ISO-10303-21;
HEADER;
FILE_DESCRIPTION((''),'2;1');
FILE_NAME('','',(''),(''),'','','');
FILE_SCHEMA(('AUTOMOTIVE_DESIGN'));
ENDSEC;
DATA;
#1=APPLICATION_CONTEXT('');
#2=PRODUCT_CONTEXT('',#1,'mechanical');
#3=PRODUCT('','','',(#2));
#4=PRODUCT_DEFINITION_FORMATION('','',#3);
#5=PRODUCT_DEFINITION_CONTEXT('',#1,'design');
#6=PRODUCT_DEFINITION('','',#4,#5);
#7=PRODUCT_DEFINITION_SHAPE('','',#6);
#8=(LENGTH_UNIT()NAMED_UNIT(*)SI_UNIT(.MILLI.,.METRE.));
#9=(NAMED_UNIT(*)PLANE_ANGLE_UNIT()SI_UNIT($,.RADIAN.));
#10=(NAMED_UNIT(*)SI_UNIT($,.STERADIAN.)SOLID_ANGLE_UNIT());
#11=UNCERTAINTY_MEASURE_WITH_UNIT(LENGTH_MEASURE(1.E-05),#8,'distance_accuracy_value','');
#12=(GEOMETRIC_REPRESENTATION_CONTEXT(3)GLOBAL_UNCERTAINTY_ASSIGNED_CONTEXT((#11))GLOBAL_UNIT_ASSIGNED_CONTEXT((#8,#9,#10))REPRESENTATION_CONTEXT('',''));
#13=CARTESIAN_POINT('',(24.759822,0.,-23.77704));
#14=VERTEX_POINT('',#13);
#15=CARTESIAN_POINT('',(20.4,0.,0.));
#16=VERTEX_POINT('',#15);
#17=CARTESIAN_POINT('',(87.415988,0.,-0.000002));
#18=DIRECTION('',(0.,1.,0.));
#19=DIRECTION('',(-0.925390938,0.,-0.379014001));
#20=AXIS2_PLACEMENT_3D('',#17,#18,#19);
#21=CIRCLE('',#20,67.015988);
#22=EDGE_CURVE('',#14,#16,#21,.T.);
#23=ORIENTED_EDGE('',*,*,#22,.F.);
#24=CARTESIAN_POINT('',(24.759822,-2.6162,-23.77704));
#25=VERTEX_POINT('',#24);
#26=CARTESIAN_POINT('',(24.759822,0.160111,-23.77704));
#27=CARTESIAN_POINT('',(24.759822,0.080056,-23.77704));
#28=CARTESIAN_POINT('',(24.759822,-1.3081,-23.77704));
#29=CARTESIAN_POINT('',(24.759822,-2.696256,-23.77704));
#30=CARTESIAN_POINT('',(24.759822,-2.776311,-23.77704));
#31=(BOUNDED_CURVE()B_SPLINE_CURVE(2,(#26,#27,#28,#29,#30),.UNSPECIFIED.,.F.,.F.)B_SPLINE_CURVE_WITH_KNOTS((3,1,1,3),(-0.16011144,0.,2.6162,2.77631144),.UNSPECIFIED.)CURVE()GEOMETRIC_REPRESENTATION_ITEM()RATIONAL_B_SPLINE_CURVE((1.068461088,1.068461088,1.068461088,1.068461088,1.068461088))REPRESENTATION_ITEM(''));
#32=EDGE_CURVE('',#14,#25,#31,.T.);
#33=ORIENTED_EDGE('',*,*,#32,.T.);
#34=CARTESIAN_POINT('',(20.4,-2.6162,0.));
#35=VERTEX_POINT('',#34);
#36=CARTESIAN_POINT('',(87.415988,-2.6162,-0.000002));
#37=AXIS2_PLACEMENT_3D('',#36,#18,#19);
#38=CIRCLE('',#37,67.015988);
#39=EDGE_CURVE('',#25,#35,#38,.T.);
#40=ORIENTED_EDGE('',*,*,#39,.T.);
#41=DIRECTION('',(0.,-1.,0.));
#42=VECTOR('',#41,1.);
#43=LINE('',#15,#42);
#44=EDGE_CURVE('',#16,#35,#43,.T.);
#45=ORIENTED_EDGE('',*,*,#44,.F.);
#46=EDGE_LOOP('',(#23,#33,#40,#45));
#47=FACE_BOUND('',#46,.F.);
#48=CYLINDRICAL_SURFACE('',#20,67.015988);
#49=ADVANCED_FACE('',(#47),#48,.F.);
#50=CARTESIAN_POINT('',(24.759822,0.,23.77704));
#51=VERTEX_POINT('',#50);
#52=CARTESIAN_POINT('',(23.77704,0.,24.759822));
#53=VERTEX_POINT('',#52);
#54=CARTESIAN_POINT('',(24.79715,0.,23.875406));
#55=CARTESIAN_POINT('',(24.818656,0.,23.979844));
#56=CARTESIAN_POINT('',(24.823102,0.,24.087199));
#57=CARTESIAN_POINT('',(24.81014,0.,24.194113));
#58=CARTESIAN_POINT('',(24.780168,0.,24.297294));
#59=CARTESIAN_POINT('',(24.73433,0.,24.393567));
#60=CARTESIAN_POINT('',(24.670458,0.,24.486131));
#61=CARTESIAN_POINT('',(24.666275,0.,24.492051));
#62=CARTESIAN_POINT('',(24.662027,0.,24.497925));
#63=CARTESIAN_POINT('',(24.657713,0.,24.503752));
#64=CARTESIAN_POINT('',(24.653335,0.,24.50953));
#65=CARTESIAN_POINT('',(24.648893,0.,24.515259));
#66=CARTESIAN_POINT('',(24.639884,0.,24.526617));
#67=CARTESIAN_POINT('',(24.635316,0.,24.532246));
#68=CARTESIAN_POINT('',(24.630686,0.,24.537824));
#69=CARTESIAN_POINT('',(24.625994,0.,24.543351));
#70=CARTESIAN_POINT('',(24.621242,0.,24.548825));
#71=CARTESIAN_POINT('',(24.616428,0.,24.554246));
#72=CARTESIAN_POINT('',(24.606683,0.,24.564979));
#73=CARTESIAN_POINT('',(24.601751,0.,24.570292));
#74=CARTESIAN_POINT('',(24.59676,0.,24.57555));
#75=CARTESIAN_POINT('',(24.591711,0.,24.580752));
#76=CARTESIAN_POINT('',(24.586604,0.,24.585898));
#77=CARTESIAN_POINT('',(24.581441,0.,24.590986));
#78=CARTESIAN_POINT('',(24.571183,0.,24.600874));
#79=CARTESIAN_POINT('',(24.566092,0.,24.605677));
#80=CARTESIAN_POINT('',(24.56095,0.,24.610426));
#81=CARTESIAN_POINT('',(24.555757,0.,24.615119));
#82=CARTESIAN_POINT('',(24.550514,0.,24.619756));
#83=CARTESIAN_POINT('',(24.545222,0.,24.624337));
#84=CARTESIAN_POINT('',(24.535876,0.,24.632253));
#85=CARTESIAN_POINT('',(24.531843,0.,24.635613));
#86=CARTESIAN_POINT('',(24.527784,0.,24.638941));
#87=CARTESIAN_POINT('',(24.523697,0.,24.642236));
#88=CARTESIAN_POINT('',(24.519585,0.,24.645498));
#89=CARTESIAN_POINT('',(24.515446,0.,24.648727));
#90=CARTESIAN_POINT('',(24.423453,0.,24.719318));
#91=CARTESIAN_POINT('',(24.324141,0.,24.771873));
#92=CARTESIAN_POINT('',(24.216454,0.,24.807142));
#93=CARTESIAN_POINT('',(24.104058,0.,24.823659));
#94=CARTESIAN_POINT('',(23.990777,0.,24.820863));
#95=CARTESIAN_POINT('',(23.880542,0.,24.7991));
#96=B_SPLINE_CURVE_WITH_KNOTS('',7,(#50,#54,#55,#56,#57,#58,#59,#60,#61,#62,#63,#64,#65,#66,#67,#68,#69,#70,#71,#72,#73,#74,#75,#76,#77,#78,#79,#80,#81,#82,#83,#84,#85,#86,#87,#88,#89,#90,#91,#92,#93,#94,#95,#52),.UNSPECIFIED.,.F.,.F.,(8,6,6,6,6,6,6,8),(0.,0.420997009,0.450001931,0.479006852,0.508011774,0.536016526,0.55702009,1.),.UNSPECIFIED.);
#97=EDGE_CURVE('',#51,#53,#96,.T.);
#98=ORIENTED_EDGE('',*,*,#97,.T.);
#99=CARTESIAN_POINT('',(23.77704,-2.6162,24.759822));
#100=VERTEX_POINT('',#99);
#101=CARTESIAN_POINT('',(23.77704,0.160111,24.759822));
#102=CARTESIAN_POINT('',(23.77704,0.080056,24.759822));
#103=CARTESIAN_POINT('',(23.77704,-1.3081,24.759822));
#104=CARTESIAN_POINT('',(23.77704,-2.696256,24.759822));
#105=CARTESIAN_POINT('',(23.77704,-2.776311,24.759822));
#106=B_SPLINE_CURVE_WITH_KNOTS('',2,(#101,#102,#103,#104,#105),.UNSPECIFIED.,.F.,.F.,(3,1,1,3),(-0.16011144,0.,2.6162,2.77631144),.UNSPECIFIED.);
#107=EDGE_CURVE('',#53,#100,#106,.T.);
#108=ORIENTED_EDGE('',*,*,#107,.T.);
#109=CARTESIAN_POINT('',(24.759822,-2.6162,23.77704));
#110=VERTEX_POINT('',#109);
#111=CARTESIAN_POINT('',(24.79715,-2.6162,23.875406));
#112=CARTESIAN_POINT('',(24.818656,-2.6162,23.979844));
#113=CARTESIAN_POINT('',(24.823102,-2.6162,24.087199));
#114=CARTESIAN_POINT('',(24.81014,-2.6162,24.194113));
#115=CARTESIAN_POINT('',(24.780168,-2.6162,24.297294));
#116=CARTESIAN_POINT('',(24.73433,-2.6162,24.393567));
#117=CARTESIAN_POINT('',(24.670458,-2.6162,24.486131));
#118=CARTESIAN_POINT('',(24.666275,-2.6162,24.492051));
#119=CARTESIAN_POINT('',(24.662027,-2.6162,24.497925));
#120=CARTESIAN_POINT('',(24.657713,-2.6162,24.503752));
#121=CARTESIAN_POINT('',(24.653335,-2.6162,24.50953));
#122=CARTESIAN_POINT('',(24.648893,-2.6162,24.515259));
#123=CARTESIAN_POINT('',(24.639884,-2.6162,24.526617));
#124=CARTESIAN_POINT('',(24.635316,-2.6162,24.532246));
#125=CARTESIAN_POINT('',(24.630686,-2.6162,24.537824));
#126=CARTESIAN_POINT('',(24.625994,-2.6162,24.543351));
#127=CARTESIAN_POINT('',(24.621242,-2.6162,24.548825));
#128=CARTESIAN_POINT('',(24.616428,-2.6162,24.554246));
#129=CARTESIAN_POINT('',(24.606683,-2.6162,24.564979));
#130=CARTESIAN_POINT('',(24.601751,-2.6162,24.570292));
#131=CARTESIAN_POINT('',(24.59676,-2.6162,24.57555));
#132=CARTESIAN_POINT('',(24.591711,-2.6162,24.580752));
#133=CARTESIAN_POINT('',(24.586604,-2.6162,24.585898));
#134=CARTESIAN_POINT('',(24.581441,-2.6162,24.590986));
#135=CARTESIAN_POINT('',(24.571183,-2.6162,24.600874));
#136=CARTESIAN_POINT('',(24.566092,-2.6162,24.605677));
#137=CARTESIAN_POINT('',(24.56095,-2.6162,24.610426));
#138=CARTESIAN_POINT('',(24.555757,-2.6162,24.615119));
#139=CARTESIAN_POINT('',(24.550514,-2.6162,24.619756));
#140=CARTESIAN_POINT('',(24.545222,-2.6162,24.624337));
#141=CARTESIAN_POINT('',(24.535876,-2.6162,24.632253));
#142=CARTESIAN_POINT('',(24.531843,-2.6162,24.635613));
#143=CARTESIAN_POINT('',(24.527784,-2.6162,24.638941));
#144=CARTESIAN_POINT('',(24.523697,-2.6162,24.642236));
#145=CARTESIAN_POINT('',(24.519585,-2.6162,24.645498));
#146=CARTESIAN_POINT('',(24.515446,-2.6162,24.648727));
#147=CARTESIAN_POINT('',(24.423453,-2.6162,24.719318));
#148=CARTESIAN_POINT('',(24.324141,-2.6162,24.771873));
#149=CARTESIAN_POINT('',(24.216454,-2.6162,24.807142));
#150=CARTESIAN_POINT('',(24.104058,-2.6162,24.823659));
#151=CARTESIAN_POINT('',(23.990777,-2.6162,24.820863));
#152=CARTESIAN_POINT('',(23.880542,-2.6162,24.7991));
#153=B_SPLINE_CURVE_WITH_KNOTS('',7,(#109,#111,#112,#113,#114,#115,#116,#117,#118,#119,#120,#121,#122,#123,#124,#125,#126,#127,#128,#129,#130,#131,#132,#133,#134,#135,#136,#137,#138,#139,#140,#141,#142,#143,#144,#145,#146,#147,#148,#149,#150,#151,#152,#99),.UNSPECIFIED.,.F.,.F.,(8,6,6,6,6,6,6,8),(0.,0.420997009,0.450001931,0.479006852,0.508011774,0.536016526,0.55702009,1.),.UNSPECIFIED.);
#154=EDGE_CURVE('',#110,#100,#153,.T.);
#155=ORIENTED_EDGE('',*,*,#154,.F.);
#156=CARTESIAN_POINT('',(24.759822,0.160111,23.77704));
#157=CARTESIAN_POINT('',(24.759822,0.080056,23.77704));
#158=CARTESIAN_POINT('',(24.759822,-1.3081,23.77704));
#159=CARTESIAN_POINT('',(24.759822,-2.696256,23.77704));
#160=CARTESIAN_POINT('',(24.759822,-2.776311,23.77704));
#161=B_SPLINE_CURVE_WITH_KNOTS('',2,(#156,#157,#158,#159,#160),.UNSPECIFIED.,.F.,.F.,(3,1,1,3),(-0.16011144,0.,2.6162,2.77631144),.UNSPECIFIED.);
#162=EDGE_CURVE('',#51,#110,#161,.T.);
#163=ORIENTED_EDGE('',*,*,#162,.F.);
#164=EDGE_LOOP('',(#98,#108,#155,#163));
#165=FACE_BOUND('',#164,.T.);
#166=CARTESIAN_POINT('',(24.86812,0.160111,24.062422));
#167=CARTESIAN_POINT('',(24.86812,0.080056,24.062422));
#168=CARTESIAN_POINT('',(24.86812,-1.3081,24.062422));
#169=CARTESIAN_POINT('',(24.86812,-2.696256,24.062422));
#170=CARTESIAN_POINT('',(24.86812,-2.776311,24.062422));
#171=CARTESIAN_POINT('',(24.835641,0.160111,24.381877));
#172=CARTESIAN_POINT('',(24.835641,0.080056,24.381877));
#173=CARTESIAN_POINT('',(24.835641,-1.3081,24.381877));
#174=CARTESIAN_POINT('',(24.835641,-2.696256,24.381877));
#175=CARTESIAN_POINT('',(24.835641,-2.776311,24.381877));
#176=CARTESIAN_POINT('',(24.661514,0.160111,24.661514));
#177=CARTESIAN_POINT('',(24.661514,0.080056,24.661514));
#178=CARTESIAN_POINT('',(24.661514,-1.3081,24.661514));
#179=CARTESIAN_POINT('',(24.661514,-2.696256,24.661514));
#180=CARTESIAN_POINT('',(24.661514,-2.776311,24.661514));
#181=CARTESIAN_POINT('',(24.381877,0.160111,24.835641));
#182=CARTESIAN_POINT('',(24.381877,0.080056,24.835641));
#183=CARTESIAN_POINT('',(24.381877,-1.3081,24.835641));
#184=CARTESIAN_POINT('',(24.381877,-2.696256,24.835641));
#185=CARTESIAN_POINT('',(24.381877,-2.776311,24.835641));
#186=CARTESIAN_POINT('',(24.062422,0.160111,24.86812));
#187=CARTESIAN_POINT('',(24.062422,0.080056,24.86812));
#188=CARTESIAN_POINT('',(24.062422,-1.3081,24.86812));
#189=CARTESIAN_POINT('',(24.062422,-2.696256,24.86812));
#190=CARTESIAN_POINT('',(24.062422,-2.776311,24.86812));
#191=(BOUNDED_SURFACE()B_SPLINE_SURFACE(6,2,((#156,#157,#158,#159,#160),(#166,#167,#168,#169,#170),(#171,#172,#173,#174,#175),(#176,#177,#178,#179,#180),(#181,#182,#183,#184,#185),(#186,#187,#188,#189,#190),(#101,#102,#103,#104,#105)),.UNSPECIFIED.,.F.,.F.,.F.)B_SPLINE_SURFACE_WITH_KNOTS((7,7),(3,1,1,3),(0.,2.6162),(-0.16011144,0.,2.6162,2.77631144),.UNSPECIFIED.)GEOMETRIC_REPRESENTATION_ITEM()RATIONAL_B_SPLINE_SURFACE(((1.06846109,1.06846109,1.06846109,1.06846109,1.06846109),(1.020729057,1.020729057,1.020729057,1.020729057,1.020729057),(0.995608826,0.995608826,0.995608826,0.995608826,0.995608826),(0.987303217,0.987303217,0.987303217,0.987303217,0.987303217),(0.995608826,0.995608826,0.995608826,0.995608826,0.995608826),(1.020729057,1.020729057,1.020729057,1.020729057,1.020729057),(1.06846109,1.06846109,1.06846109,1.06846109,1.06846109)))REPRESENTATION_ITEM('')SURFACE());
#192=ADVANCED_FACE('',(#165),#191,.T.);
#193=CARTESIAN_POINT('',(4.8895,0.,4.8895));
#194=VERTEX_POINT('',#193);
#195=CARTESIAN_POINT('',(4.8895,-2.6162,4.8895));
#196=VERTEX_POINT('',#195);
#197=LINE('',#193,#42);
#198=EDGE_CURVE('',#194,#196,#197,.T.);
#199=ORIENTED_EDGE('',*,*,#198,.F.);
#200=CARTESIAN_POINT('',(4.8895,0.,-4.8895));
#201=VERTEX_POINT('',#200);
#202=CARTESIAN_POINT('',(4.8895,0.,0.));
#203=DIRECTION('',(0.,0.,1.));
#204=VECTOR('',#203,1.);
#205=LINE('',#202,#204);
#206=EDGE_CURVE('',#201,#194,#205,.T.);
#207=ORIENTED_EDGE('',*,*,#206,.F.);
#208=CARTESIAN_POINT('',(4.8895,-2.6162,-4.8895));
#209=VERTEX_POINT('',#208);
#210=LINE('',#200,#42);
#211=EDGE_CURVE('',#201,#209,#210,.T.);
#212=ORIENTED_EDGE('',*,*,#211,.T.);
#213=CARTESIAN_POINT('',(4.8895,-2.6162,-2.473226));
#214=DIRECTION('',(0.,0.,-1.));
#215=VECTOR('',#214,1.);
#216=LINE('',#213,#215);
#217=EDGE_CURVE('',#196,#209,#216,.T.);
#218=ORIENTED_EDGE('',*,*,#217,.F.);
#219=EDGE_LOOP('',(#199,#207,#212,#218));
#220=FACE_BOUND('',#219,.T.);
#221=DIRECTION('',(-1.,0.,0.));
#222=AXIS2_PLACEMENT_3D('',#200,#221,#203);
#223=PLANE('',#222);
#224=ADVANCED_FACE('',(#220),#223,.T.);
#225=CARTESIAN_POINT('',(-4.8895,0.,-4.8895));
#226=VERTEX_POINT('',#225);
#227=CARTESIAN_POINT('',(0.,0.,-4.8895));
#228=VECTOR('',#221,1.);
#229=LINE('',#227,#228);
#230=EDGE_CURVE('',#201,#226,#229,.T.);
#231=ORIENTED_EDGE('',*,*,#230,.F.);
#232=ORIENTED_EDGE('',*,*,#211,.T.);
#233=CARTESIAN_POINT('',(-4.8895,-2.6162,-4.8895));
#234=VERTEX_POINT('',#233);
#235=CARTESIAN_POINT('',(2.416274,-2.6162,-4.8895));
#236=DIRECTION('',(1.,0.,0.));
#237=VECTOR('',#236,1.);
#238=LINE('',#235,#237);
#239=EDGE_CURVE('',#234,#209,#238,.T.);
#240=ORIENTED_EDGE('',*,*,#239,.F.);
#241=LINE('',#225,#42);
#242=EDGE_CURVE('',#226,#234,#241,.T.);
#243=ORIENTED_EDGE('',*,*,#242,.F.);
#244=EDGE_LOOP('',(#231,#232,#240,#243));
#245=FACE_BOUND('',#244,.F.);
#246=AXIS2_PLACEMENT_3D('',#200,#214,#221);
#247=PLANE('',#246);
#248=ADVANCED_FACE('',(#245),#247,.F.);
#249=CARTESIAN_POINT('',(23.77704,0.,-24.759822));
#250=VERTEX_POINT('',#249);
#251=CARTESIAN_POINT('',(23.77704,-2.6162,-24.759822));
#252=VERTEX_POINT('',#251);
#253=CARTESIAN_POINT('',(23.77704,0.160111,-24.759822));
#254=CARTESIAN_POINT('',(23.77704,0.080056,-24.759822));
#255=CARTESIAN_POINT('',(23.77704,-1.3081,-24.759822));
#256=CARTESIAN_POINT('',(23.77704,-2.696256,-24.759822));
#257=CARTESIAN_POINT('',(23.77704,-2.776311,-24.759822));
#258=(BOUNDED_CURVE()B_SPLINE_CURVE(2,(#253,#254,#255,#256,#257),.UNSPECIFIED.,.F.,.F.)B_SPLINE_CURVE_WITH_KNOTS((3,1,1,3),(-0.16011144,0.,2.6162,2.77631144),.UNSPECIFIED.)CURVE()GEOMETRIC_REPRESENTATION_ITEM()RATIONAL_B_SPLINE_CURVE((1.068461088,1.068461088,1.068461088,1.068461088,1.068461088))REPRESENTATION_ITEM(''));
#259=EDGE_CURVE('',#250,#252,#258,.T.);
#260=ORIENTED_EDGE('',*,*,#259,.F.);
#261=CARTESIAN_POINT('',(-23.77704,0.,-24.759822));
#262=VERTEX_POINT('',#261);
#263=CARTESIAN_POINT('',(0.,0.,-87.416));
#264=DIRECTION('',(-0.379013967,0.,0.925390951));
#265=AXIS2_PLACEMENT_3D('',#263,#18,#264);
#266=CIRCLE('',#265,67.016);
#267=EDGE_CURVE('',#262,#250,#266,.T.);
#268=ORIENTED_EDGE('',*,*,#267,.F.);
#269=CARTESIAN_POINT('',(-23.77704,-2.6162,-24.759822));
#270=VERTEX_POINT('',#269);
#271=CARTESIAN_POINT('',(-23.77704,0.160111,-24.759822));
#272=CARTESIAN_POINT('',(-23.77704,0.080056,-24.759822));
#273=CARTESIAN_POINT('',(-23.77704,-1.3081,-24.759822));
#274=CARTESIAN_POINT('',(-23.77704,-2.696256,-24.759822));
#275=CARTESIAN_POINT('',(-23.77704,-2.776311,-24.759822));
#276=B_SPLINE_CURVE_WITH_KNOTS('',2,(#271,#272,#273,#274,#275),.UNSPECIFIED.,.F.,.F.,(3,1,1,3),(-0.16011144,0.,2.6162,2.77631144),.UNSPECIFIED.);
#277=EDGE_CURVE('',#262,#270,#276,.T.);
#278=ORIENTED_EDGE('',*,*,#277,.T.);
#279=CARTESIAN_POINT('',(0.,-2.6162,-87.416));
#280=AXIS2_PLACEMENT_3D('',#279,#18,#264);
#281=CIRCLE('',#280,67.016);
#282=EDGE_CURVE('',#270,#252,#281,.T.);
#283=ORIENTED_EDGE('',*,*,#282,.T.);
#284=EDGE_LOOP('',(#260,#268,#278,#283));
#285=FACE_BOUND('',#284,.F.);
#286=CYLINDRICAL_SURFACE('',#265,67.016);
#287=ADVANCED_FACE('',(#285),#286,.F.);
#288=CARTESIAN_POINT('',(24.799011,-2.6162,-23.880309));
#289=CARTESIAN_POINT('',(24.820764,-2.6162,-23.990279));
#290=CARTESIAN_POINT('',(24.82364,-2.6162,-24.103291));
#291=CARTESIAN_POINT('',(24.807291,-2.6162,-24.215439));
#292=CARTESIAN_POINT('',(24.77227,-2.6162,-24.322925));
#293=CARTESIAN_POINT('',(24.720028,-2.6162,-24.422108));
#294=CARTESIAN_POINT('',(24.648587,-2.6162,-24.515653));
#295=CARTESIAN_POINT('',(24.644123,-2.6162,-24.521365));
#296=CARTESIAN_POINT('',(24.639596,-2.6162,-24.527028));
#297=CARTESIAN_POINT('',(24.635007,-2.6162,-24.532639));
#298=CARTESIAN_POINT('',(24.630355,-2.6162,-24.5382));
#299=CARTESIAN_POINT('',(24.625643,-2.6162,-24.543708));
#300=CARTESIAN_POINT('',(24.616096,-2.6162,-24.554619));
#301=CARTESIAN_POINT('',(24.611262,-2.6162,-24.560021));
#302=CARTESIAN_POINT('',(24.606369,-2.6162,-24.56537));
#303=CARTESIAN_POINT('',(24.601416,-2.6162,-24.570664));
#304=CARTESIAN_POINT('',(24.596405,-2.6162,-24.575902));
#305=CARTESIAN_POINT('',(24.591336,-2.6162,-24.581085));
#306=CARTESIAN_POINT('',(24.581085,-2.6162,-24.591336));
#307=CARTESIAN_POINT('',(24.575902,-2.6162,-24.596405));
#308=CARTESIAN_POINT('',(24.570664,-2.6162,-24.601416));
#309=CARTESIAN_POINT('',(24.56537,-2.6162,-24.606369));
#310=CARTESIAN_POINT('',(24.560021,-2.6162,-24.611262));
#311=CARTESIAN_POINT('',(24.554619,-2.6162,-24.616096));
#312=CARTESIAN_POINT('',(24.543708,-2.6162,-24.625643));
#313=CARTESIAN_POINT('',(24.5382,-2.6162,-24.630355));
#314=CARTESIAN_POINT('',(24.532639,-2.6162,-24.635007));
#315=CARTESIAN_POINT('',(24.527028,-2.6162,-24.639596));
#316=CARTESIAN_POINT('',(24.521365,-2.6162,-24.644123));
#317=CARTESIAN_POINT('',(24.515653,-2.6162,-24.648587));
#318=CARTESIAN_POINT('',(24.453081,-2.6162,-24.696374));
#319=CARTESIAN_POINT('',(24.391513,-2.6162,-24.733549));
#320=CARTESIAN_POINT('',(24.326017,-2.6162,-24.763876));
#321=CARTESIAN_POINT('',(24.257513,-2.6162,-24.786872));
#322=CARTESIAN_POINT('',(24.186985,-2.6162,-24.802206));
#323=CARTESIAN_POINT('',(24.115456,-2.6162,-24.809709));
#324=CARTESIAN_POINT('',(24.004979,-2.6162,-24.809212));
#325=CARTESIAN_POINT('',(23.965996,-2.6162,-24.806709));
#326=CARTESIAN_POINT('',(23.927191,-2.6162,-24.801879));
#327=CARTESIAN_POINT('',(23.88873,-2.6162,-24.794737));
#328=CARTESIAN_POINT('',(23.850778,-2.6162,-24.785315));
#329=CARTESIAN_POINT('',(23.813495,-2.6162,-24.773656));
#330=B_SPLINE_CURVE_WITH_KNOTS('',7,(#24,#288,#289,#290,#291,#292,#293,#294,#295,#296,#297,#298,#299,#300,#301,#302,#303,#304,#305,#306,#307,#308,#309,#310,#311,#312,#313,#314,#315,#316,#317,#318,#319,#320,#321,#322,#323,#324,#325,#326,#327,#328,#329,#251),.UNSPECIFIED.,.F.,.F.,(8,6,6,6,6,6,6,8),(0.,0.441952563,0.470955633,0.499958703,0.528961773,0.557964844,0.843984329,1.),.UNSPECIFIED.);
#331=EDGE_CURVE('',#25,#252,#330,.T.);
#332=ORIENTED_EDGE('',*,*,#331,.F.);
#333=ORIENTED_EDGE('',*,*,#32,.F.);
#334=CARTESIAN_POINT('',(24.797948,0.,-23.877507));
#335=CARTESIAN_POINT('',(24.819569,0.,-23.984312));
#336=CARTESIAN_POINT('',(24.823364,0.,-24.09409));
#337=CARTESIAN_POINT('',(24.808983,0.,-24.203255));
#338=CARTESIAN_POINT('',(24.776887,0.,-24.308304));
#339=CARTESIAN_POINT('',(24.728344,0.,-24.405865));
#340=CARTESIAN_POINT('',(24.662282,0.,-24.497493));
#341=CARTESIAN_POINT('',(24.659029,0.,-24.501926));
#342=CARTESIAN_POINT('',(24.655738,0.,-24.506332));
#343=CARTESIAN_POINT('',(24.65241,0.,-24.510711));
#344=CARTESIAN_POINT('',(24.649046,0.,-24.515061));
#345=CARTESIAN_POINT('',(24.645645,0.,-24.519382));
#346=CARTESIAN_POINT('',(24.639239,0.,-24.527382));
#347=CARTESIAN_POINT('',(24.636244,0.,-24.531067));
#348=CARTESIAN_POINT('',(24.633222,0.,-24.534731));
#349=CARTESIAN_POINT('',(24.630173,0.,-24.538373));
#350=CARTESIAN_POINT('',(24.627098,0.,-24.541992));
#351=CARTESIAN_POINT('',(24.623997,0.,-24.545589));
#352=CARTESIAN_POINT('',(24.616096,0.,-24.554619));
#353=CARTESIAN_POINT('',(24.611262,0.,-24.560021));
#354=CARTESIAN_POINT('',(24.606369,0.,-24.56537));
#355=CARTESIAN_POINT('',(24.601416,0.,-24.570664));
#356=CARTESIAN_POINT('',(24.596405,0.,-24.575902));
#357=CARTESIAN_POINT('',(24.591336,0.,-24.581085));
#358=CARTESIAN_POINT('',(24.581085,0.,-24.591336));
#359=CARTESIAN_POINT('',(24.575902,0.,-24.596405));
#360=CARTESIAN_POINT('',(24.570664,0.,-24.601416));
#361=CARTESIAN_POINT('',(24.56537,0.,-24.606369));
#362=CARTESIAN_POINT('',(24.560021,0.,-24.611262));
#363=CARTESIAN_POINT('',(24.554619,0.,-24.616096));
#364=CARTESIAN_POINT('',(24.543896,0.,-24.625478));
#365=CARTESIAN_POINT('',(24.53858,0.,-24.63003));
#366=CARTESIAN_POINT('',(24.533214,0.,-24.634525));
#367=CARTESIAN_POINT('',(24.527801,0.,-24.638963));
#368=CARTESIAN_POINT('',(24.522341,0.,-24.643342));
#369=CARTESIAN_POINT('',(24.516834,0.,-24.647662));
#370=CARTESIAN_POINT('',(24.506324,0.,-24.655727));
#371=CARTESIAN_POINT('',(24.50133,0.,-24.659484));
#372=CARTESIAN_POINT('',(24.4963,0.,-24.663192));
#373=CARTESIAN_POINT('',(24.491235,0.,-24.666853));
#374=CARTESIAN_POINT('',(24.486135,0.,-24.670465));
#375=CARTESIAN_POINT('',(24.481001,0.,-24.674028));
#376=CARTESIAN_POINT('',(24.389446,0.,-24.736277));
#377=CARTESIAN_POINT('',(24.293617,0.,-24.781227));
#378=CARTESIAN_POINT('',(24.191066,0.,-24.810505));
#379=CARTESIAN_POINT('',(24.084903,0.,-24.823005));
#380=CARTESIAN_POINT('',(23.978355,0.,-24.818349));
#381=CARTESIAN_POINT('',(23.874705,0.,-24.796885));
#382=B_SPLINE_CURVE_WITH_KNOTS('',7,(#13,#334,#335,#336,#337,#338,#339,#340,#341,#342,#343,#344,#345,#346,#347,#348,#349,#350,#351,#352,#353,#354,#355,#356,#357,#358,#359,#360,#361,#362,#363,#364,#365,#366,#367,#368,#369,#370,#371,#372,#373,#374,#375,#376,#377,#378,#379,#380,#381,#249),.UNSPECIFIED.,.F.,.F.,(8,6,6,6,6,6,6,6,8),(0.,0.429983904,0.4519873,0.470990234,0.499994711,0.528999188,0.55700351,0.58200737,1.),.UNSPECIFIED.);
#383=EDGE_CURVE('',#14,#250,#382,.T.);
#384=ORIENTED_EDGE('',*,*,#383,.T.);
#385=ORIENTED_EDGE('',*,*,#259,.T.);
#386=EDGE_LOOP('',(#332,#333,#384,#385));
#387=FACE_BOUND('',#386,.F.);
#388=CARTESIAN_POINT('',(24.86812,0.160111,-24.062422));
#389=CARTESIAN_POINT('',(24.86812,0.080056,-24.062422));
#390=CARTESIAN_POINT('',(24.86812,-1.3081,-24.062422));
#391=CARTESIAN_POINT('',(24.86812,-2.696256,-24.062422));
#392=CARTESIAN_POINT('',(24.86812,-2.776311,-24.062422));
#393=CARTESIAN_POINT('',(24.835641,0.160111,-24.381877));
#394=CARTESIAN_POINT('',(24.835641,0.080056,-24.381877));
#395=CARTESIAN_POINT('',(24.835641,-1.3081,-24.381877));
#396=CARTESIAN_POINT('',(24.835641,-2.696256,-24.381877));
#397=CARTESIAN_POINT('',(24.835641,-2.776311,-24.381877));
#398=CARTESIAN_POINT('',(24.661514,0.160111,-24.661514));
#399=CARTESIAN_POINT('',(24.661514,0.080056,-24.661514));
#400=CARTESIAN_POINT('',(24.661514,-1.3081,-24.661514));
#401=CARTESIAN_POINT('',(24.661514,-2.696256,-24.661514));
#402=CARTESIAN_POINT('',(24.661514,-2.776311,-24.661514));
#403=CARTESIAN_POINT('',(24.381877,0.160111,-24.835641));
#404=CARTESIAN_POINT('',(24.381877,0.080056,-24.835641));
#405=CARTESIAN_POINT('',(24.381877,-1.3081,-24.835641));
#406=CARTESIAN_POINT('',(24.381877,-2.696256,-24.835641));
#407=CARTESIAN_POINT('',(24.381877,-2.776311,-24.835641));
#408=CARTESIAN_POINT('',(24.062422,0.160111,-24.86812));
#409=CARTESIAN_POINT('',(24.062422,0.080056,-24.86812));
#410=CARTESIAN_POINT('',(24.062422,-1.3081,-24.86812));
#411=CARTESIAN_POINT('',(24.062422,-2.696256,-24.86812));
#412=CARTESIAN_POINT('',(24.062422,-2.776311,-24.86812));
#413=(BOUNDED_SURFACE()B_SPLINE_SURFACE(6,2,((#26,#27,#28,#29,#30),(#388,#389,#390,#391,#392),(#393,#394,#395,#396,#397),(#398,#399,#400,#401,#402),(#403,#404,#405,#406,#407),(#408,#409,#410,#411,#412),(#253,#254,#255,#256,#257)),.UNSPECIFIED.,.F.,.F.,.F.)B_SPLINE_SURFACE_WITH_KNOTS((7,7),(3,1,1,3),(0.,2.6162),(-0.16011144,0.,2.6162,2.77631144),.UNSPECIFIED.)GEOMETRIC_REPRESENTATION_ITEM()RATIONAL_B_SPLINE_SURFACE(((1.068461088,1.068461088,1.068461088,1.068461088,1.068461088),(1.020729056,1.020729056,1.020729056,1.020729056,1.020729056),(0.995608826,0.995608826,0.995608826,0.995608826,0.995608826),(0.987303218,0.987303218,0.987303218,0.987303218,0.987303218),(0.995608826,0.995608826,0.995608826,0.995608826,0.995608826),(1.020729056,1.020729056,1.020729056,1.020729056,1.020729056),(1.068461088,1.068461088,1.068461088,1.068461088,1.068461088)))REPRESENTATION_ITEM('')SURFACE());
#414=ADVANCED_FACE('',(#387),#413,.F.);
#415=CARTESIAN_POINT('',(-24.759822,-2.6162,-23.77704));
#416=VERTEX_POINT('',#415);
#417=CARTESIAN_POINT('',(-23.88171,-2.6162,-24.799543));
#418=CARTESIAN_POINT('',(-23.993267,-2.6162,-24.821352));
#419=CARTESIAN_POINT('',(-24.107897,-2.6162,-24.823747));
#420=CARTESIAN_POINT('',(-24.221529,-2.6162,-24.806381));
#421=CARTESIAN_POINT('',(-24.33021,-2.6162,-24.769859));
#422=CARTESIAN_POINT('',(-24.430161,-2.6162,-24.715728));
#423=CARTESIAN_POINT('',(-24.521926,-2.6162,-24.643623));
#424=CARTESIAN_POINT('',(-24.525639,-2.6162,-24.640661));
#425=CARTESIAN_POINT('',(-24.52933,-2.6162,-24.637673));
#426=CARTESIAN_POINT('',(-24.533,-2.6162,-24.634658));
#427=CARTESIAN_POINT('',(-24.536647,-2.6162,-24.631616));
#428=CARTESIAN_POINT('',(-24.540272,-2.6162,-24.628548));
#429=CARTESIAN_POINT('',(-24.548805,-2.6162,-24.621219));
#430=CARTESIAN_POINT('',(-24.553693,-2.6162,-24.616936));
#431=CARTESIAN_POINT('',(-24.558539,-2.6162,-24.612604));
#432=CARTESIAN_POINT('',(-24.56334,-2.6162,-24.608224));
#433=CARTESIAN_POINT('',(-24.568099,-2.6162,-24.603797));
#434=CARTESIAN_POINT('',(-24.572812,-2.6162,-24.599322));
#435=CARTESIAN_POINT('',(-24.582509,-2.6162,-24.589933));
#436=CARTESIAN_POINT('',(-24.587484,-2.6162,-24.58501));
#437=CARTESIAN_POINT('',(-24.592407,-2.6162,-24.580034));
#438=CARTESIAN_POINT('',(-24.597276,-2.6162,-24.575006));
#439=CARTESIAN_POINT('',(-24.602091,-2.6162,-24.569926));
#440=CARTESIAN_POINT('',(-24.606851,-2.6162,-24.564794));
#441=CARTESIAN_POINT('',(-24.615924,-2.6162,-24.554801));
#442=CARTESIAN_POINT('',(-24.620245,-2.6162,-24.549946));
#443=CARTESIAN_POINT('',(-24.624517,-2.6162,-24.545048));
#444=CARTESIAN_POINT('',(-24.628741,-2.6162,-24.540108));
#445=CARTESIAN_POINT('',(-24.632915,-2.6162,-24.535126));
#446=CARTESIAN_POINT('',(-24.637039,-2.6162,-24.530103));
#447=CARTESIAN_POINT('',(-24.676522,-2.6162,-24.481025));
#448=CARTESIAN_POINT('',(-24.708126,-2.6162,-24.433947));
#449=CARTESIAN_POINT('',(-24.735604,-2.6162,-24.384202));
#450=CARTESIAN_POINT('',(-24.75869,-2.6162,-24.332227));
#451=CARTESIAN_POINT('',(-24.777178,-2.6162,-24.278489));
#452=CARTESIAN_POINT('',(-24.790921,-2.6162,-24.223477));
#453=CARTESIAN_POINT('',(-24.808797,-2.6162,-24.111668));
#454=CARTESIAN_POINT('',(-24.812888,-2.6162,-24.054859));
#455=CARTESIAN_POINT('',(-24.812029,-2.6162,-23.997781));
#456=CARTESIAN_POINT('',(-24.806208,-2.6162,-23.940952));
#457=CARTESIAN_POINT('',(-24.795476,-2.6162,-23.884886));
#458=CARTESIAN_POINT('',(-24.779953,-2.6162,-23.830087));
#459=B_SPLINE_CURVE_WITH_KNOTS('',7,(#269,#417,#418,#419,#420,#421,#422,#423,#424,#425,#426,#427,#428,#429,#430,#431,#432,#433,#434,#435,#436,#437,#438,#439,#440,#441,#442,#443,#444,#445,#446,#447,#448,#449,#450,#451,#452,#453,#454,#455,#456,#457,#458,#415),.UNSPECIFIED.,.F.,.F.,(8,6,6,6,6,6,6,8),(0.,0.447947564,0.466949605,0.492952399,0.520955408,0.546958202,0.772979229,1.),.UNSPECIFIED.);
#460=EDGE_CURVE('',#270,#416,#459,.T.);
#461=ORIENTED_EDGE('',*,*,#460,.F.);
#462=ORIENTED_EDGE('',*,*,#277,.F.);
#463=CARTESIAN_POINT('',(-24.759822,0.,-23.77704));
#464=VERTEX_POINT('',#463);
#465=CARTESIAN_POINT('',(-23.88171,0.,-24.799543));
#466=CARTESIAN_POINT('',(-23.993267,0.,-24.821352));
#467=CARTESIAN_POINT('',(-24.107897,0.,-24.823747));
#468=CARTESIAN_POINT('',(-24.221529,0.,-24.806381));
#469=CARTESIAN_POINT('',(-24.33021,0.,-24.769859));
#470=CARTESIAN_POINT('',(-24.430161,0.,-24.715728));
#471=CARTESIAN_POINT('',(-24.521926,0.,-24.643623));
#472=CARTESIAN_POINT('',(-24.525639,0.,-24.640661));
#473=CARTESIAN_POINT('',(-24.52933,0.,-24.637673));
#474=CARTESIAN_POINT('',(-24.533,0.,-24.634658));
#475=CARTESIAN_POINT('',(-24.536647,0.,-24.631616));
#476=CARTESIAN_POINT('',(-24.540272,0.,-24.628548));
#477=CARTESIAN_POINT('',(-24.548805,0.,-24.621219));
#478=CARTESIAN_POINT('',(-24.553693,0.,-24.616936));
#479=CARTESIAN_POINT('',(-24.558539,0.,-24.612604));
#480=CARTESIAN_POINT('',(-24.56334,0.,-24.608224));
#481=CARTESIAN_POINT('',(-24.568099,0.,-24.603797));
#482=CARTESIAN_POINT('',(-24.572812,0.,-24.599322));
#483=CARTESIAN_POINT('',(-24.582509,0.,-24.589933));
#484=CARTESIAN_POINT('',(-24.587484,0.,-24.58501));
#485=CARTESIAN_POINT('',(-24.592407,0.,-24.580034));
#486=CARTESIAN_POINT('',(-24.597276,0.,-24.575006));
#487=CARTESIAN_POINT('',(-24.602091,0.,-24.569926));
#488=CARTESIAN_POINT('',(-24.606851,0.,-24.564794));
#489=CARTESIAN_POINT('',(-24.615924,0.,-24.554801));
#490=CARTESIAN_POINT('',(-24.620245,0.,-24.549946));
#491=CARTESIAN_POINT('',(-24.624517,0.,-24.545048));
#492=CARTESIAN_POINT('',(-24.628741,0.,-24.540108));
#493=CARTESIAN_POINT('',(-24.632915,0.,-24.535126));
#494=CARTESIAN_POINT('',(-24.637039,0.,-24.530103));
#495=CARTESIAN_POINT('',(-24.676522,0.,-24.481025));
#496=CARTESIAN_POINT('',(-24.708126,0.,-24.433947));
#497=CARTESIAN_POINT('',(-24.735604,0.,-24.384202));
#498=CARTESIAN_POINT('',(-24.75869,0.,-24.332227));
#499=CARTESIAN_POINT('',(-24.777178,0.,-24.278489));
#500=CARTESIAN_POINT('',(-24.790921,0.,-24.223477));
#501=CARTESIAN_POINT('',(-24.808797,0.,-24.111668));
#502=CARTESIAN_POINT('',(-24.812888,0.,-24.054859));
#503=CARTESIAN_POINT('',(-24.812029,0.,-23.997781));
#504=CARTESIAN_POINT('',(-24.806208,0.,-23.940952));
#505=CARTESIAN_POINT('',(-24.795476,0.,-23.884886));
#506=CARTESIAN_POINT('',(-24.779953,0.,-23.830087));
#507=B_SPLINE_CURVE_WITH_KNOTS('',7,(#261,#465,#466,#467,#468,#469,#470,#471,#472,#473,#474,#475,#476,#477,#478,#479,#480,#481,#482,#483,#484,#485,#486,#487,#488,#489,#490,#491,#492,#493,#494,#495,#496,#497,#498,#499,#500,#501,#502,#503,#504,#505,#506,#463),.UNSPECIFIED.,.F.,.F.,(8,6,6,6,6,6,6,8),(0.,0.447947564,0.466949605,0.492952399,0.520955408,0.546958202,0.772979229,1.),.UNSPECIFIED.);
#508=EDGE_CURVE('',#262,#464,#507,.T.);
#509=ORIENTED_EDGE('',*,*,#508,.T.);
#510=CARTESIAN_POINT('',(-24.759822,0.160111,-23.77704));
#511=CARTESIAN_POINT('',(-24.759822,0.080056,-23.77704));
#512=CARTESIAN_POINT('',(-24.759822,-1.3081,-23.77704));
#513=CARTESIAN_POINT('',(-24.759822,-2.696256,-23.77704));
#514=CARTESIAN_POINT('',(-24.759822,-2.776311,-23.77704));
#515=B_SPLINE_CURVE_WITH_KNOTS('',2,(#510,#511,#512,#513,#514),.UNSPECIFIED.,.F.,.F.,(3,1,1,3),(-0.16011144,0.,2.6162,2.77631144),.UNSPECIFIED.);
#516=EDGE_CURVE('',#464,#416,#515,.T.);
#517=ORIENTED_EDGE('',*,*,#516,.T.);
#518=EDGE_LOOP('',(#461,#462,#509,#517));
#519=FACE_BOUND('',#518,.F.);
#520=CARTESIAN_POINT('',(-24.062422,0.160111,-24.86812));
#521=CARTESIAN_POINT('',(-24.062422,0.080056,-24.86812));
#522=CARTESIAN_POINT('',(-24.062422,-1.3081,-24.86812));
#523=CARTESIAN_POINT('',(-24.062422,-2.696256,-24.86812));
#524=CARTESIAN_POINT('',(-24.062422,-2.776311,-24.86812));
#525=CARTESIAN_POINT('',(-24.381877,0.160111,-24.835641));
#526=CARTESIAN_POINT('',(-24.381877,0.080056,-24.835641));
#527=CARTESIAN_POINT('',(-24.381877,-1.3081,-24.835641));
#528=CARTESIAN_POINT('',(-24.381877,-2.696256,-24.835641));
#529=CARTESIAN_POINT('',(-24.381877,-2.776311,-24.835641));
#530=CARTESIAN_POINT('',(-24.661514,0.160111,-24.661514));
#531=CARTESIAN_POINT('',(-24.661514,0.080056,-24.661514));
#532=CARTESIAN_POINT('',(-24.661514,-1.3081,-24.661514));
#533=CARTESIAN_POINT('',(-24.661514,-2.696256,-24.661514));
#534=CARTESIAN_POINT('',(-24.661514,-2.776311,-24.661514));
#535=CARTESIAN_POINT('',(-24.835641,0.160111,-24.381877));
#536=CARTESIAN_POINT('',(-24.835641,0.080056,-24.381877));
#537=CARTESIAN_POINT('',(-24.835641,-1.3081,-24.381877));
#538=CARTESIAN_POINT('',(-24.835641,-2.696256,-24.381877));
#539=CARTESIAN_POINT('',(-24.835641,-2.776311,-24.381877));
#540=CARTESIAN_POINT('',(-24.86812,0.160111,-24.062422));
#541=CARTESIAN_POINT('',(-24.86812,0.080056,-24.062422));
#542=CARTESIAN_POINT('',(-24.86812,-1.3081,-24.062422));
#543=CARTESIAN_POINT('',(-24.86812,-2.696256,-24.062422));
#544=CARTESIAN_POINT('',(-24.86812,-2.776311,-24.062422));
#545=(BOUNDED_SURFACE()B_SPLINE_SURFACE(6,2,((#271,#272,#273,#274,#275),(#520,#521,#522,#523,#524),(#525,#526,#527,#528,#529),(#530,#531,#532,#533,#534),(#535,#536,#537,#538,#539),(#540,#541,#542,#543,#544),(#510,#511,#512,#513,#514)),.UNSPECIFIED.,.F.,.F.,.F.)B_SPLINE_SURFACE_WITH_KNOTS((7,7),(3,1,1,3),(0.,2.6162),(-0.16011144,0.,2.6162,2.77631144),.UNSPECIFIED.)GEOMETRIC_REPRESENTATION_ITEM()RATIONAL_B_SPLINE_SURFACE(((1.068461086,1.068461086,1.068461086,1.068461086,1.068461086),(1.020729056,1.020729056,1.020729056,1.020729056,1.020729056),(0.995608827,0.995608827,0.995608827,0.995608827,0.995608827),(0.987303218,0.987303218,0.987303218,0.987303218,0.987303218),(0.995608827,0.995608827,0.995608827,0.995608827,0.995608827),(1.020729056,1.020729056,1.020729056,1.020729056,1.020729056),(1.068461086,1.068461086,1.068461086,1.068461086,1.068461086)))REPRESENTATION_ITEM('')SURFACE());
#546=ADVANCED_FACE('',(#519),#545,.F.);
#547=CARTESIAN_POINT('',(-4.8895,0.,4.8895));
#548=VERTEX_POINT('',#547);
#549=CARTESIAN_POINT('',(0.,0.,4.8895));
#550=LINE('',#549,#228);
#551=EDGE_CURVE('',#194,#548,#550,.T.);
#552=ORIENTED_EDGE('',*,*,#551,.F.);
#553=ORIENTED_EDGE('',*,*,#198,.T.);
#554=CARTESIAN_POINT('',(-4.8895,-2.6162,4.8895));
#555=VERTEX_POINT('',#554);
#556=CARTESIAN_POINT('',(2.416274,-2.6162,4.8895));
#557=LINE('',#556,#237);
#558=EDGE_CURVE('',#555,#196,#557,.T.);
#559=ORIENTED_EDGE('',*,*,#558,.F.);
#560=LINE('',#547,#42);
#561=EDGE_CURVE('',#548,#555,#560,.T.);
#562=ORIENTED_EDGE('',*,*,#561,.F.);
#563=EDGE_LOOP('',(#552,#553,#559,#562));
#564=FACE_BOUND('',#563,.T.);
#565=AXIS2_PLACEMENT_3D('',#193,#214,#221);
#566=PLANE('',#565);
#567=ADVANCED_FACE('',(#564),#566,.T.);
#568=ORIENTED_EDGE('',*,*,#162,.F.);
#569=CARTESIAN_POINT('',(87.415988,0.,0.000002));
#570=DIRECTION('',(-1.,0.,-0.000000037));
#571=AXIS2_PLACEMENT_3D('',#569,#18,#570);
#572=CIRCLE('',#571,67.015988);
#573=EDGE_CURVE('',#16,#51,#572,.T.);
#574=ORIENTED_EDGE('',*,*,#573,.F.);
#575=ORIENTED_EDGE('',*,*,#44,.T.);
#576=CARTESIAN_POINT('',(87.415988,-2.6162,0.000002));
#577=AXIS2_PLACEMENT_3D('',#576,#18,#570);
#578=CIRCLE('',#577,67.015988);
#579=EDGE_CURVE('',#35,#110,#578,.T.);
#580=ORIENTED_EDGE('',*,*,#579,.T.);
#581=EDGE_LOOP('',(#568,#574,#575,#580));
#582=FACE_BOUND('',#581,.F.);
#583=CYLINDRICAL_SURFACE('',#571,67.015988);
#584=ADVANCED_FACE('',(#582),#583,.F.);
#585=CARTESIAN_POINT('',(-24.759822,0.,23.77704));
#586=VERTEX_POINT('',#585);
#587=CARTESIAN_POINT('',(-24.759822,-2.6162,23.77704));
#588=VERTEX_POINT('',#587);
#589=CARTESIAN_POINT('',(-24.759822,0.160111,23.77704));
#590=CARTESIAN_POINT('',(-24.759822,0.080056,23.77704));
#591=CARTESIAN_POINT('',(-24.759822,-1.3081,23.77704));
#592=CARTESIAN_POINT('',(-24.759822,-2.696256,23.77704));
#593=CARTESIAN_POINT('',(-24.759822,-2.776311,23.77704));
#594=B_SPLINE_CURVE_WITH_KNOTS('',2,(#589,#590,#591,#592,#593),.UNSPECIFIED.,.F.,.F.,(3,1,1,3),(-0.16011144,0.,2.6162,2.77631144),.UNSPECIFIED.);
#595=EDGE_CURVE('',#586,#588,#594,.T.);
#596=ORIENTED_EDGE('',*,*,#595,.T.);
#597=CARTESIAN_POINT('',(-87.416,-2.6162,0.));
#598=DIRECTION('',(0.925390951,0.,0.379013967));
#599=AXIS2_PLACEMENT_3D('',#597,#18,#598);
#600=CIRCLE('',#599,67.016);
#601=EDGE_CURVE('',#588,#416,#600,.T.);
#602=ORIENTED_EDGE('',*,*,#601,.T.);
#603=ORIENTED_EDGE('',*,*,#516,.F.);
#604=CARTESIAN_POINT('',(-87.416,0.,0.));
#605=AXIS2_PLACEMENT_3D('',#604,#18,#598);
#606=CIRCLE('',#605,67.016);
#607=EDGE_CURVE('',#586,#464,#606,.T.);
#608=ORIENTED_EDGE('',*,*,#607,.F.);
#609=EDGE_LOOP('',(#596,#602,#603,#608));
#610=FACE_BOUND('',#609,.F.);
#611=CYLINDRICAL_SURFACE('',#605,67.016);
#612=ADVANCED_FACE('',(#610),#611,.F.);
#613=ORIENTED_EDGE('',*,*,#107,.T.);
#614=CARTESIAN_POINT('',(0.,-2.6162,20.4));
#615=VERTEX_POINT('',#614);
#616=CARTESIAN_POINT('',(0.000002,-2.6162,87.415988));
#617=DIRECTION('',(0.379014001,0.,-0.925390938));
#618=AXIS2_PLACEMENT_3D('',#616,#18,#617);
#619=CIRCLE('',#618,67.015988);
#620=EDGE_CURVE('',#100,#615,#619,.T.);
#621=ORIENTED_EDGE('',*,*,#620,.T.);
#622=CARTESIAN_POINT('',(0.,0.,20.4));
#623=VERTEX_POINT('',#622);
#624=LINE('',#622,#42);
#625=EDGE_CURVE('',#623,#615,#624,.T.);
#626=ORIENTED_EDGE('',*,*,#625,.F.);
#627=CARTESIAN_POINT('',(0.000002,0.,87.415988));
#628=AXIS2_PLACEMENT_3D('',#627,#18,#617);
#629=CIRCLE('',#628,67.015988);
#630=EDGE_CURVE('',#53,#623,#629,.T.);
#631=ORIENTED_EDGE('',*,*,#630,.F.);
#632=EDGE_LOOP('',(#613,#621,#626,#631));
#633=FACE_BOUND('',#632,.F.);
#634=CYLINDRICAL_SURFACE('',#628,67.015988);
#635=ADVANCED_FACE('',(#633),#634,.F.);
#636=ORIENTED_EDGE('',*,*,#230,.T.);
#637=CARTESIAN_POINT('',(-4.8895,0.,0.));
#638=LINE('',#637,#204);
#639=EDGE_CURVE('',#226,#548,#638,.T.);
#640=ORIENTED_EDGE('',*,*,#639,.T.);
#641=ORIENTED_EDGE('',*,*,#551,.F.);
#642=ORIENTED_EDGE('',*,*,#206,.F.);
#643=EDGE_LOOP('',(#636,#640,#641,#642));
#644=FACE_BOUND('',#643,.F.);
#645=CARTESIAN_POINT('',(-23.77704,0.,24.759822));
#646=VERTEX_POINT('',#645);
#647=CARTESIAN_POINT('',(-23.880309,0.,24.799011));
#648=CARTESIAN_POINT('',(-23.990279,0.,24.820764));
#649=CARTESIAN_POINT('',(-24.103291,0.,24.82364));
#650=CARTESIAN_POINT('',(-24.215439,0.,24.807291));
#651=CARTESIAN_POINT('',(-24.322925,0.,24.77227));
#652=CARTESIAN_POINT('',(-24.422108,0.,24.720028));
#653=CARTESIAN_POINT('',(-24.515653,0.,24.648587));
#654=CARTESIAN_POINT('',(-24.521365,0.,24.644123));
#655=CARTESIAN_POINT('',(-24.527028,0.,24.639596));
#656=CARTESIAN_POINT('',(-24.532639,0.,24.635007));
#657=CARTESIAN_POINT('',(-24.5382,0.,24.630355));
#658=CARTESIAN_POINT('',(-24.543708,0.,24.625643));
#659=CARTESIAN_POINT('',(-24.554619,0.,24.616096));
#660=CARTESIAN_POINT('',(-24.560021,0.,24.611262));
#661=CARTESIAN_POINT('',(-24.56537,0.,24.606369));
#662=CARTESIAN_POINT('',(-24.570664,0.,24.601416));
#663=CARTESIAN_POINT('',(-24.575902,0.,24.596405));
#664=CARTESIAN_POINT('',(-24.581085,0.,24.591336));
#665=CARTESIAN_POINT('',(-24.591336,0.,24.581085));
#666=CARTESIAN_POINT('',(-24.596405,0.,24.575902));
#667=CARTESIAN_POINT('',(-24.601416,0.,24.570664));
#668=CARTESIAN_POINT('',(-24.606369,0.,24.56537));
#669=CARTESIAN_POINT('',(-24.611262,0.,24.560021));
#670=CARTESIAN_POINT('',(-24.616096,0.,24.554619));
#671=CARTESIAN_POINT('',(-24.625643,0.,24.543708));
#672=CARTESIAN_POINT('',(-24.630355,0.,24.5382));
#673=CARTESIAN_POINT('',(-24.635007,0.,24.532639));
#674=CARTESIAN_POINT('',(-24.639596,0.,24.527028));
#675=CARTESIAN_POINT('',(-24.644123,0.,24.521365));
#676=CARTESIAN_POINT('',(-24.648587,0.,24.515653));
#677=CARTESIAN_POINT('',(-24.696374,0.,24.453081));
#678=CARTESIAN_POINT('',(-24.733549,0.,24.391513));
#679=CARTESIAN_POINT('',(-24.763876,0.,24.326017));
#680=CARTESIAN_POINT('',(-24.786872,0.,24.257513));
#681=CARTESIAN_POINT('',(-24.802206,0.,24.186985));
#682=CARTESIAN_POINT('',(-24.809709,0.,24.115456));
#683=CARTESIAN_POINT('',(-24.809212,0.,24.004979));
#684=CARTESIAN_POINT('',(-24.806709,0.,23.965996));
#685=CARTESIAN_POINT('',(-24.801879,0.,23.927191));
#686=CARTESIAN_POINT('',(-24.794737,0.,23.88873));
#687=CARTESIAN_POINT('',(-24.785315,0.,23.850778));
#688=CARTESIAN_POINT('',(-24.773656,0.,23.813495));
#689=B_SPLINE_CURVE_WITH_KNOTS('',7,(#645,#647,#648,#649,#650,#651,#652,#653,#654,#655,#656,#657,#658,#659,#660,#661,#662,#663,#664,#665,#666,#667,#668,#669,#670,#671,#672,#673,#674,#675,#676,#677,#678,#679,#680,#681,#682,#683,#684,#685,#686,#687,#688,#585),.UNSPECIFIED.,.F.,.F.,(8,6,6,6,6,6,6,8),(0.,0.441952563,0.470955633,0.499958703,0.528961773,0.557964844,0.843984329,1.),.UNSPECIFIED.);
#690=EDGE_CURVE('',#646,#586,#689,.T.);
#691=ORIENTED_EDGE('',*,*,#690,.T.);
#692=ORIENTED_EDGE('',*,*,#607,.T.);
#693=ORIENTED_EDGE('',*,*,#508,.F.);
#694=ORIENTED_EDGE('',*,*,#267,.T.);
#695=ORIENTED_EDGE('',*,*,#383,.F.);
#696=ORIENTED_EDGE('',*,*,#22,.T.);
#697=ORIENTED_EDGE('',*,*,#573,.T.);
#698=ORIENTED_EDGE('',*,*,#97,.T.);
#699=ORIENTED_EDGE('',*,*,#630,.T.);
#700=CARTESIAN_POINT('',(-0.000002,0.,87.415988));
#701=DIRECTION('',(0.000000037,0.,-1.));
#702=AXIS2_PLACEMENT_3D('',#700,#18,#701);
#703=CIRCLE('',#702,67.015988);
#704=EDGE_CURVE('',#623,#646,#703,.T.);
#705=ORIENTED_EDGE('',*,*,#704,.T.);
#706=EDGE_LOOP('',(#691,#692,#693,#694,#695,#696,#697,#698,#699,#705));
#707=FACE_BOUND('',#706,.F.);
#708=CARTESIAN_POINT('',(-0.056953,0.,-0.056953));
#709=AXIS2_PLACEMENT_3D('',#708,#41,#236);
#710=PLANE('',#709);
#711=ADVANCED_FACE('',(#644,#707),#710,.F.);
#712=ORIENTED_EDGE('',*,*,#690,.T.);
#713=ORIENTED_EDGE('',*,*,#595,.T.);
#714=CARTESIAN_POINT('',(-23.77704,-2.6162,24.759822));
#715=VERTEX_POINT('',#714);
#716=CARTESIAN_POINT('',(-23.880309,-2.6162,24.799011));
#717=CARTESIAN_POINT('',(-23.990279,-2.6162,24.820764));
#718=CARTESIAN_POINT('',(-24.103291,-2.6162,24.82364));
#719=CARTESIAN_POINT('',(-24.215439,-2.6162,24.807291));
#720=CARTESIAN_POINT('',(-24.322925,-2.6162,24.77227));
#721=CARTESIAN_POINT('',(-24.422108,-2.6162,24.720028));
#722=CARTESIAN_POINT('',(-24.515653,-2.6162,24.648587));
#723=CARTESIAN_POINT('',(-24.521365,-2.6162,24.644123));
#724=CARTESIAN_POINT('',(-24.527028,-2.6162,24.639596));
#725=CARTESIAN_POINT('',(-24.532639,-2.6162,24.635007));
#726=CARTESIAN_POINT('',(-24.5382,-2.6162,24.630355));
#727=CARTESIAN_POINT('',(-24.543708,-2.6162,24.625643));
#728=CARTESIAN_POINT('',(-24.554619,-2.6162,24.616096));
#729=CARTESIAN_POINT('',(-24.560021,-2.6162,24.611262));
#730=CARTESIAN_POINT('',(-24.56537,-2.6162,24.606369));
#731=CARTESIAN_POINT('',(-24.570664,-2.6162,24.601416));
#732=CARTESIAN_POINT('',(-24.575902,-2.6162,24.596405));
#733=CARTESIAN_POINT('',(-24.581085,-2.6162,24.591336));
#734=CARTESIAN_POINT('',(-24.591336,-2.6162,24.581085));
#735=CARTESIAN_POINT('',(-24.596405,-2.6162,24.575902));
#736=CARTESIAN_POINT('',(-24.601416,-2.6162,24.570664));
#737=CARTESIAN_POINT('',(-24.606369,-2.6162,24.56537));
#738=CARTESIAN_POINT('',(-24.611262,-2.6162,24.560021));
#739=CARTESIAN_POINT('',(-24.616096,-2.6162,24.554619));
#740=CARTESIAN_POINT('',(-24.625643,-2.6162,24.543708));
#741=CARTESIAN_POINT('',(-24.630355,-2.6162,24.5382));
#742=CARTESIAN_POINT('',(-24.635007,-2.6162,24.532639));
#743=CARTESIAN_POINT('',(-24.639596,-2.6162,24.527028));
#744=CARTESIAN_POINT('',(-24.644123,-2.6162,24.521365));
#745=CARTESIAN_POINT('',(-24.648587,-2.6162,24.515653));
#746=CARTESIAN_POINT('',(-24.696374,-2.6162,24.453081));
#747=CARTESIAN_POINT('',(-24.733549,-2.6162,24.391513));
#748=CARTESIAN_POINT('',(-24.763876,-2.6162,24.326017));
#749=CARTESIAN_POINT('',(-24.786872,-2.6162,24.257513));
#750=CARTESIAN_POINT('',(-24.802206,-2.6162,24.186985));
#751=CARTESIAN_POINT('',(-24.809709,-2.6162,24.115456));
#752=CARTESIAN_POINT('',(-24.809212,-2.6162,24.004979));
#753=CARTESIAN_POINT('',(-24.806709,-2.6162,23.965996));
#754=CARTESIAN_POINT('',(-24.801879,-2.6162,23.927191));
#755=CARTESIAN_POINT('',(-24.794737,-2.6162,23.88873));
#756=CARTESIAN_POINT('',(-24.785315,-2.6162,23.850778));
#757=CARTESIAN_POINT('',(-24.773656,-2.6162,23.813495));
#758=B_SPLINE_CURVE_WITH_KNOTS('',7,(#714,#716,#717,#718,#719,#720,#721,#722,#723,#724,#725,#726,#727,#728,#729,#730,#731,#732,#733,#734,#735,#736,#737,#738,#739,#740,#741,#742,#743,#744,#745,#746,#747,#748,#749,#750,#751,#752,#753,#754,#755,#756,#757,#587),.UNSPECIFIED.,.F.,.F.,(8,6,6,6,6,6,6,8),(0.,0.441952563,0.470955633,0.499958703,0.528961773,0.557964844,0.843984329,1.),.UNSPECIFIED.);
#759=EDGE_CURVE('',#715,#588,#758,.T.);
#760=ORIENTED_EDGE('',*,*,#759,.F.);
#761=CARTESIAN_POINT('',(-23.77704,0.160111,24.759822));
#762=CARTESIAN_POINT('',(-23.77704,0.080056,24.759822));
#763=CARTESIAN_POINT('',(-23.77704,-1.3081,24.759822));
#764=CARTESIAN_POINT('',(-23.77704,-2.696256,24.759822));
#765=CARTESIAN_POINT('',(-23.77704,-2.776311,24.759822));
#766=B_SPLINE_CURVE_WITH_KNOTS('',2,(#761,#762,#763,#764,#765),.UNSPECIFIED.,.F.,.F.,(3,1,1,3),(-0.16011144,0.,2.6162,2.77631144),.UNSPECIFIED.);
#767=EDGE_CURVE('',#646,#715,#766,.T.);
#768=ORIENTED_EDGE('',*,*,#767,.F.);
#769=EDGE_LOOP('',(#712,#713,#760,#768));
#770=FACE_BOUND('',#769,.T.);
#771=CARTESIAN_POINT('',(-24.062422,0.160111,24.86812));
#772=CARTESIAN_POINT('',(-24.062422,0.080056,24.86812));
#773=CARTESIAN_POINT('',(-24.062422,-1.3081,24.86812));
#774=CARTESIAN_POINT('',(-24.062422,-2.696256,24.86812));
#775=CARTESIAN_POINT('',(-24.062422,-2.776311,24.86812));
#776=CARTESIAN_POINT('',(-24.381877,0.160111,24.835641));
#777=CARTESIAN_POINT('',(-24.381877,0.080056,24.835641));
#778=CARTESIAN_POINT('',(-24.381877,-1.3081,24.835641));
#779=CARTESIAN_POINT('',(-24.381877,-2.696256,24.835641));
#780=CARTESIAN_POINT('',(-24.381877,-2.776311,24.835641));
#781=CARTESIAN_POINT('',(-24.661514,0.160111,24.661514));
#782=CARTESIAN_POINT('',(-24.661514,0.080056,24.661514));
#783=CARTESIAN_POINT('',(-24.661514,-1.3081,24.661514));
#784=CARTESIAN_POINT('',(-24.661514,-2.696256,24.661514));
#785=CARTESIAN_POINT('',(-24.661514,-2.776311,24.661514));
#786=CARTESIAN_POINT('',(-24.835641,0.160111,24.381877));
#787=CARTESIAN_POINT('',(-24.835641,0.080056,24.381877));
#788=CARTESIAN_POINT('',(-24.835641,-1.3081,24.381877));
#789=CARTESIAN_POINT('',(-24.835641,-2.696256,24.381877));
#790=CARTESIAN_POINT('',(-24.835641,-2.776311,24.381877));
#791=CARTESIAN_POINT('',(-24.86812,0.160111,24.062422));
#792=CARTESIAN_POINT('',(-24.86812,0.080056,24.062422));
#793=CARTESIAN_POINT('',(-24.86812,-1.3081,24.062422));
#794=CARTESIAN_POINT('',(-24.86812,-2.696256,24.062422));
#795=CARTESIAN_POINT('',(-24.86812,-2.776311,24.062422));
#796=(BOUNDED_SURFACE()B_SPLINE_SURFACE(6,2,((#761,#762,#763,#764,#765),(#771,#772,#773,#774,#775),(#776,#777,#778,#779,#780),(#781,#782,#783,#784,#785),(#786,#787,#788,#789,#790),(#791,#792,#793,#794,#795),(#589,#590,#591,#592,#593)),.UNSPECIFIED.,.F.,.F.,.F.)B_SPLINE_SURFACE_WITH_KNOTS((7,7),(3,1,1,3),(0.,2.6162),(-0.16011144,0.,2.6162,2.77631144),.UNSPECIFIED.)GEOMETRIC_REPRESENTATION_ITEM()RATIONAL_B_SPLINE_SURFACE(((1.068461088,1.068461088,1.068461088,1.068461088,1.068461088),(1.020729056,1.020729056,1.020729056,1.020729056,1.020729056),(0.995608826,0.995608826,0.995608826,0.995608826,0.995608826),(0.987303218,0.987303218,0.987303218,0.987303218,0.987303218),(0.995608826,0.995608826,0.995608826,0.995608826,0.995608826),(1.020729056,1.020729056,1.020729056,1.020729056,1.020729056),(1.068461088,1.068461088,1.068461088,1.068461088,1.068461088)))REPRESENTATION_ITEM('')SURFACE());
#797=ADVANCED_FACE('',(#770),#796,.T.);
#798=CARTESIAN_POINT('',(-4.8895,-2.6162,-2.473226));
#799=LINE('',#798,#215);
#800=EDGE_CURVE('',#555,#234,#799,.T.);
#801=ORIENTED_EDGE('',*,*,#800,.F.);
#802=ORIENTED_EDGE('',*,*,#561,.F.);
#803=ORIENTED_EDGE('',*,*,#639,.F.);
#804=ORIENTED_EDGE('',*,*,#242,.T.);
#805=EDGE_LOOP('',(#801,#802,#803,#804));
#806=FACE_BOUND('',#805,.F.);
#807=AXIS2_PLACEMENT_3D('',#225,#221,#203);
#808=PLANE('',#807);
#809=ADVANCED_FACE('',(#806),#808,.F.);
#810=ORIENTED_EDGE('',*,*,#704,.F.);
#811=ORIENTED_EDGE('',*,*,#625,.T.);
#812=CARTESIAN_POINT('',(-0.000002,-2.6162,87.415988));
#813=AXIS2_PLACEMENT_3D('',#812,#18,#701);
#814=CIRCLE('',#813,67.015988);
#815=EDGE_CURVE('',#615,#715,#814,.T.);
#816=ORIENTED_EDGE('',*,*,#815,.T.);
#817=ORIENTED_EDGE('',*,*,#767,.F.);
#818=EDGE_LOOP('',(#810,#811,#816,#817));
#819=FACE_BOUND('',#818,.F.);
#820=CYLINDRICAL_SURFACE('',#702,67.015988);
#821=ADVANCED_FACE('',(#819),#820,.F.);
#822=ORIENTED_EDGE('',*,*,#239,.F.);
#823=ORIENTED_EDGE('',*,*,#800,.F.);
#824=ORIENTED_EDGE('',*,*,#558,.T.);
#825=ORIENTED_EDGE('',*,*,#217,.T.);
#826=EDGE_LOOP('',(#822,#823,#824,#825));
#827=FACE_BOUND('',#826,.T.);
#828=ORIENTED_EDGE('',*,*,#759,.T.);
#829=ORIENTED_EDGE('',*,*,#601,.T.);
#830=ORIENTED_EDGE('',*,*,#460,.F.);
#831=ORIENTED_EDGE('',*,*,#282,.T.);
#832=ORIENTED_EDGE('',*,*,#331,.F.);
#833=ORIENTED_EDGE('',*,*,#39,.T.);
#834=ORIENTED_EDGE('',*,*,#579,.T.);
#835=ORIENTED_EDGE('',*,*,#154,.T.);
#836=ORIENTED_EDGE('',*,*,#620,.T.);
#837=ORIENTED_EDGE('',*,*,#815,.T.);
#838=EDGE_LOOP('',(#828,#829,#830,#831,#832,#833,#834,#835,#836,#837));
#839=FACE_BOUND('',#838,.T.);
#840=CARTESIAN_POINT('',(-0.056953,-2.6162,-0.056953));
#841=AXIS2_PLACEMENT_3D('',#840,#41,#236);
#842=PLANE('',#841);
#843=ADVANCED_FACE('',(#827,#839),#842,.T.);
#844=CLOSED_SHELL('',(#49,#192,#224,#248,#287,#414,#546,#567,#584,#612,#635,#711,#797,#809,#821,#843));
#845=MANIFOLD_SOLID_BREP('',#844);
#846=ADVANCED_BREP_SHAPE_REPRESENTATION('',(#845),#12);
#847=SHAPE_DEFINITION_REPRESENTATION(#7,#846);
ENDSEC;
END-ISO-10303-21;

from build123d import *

# Parameters (mm, degrees)
F1_DEPTH = 2.6162
F2_W     = 9.779
F2_H     = 9.779
F3_DEPTH = 25
F4_R     = 0.762


with BuildPart() as f1:
    # F0 (on Front) → F1 (new body)
    with BuildSketch(Plane.XZ):
        with BuildLine():
            ThreePointArc((20.4, 0), (21.66188, 12.943724), (25.4, 25.4))
            ThreePointArc((25.4, 25.4), (12.943724, 21.66188), (0, 20.4))
            ThreePointArc((0, 20.4), (-12.943724, 21.66188), (-25.4, 25.4))
            ThreePointArc((-25.4, 25.4), (-20.4, 0), (-25.4, -25.4))
            ThreePointArc((-25.4, -25.4), (0, -20.4), (25.4, -25.4))
            ThreePointArc((25.4, -25.4), (21.66188, -12.943724), (20.4, 0))
        make_face()
    extrude(amount=F1_DEPTH)

    # F2 (on face) → F3 (cut)
    with BuildSketch(Plane(origin=(0, 0, 0), x_dir=(-1, 0, 0), z_dir=(0, 1, 0))):
        Rectangle(F2_W, F2_H)
    extrude(amount=-F3_DEPTH, mode=Mode.SUBTRACT)

    # F4
    f4_edges = [f1.edges().sort_by_distance(p)[0] for p in [
        (25.4, -1.3081, 25.4),
        (-25.4, -1.3081, 25.4),
        (-25.4, -1.3081, -25.4),
        (25.4, -1.3081, -25.4),
    ]]
    fillet(f4_edges, radius=F4_R)


solid = f1.part
